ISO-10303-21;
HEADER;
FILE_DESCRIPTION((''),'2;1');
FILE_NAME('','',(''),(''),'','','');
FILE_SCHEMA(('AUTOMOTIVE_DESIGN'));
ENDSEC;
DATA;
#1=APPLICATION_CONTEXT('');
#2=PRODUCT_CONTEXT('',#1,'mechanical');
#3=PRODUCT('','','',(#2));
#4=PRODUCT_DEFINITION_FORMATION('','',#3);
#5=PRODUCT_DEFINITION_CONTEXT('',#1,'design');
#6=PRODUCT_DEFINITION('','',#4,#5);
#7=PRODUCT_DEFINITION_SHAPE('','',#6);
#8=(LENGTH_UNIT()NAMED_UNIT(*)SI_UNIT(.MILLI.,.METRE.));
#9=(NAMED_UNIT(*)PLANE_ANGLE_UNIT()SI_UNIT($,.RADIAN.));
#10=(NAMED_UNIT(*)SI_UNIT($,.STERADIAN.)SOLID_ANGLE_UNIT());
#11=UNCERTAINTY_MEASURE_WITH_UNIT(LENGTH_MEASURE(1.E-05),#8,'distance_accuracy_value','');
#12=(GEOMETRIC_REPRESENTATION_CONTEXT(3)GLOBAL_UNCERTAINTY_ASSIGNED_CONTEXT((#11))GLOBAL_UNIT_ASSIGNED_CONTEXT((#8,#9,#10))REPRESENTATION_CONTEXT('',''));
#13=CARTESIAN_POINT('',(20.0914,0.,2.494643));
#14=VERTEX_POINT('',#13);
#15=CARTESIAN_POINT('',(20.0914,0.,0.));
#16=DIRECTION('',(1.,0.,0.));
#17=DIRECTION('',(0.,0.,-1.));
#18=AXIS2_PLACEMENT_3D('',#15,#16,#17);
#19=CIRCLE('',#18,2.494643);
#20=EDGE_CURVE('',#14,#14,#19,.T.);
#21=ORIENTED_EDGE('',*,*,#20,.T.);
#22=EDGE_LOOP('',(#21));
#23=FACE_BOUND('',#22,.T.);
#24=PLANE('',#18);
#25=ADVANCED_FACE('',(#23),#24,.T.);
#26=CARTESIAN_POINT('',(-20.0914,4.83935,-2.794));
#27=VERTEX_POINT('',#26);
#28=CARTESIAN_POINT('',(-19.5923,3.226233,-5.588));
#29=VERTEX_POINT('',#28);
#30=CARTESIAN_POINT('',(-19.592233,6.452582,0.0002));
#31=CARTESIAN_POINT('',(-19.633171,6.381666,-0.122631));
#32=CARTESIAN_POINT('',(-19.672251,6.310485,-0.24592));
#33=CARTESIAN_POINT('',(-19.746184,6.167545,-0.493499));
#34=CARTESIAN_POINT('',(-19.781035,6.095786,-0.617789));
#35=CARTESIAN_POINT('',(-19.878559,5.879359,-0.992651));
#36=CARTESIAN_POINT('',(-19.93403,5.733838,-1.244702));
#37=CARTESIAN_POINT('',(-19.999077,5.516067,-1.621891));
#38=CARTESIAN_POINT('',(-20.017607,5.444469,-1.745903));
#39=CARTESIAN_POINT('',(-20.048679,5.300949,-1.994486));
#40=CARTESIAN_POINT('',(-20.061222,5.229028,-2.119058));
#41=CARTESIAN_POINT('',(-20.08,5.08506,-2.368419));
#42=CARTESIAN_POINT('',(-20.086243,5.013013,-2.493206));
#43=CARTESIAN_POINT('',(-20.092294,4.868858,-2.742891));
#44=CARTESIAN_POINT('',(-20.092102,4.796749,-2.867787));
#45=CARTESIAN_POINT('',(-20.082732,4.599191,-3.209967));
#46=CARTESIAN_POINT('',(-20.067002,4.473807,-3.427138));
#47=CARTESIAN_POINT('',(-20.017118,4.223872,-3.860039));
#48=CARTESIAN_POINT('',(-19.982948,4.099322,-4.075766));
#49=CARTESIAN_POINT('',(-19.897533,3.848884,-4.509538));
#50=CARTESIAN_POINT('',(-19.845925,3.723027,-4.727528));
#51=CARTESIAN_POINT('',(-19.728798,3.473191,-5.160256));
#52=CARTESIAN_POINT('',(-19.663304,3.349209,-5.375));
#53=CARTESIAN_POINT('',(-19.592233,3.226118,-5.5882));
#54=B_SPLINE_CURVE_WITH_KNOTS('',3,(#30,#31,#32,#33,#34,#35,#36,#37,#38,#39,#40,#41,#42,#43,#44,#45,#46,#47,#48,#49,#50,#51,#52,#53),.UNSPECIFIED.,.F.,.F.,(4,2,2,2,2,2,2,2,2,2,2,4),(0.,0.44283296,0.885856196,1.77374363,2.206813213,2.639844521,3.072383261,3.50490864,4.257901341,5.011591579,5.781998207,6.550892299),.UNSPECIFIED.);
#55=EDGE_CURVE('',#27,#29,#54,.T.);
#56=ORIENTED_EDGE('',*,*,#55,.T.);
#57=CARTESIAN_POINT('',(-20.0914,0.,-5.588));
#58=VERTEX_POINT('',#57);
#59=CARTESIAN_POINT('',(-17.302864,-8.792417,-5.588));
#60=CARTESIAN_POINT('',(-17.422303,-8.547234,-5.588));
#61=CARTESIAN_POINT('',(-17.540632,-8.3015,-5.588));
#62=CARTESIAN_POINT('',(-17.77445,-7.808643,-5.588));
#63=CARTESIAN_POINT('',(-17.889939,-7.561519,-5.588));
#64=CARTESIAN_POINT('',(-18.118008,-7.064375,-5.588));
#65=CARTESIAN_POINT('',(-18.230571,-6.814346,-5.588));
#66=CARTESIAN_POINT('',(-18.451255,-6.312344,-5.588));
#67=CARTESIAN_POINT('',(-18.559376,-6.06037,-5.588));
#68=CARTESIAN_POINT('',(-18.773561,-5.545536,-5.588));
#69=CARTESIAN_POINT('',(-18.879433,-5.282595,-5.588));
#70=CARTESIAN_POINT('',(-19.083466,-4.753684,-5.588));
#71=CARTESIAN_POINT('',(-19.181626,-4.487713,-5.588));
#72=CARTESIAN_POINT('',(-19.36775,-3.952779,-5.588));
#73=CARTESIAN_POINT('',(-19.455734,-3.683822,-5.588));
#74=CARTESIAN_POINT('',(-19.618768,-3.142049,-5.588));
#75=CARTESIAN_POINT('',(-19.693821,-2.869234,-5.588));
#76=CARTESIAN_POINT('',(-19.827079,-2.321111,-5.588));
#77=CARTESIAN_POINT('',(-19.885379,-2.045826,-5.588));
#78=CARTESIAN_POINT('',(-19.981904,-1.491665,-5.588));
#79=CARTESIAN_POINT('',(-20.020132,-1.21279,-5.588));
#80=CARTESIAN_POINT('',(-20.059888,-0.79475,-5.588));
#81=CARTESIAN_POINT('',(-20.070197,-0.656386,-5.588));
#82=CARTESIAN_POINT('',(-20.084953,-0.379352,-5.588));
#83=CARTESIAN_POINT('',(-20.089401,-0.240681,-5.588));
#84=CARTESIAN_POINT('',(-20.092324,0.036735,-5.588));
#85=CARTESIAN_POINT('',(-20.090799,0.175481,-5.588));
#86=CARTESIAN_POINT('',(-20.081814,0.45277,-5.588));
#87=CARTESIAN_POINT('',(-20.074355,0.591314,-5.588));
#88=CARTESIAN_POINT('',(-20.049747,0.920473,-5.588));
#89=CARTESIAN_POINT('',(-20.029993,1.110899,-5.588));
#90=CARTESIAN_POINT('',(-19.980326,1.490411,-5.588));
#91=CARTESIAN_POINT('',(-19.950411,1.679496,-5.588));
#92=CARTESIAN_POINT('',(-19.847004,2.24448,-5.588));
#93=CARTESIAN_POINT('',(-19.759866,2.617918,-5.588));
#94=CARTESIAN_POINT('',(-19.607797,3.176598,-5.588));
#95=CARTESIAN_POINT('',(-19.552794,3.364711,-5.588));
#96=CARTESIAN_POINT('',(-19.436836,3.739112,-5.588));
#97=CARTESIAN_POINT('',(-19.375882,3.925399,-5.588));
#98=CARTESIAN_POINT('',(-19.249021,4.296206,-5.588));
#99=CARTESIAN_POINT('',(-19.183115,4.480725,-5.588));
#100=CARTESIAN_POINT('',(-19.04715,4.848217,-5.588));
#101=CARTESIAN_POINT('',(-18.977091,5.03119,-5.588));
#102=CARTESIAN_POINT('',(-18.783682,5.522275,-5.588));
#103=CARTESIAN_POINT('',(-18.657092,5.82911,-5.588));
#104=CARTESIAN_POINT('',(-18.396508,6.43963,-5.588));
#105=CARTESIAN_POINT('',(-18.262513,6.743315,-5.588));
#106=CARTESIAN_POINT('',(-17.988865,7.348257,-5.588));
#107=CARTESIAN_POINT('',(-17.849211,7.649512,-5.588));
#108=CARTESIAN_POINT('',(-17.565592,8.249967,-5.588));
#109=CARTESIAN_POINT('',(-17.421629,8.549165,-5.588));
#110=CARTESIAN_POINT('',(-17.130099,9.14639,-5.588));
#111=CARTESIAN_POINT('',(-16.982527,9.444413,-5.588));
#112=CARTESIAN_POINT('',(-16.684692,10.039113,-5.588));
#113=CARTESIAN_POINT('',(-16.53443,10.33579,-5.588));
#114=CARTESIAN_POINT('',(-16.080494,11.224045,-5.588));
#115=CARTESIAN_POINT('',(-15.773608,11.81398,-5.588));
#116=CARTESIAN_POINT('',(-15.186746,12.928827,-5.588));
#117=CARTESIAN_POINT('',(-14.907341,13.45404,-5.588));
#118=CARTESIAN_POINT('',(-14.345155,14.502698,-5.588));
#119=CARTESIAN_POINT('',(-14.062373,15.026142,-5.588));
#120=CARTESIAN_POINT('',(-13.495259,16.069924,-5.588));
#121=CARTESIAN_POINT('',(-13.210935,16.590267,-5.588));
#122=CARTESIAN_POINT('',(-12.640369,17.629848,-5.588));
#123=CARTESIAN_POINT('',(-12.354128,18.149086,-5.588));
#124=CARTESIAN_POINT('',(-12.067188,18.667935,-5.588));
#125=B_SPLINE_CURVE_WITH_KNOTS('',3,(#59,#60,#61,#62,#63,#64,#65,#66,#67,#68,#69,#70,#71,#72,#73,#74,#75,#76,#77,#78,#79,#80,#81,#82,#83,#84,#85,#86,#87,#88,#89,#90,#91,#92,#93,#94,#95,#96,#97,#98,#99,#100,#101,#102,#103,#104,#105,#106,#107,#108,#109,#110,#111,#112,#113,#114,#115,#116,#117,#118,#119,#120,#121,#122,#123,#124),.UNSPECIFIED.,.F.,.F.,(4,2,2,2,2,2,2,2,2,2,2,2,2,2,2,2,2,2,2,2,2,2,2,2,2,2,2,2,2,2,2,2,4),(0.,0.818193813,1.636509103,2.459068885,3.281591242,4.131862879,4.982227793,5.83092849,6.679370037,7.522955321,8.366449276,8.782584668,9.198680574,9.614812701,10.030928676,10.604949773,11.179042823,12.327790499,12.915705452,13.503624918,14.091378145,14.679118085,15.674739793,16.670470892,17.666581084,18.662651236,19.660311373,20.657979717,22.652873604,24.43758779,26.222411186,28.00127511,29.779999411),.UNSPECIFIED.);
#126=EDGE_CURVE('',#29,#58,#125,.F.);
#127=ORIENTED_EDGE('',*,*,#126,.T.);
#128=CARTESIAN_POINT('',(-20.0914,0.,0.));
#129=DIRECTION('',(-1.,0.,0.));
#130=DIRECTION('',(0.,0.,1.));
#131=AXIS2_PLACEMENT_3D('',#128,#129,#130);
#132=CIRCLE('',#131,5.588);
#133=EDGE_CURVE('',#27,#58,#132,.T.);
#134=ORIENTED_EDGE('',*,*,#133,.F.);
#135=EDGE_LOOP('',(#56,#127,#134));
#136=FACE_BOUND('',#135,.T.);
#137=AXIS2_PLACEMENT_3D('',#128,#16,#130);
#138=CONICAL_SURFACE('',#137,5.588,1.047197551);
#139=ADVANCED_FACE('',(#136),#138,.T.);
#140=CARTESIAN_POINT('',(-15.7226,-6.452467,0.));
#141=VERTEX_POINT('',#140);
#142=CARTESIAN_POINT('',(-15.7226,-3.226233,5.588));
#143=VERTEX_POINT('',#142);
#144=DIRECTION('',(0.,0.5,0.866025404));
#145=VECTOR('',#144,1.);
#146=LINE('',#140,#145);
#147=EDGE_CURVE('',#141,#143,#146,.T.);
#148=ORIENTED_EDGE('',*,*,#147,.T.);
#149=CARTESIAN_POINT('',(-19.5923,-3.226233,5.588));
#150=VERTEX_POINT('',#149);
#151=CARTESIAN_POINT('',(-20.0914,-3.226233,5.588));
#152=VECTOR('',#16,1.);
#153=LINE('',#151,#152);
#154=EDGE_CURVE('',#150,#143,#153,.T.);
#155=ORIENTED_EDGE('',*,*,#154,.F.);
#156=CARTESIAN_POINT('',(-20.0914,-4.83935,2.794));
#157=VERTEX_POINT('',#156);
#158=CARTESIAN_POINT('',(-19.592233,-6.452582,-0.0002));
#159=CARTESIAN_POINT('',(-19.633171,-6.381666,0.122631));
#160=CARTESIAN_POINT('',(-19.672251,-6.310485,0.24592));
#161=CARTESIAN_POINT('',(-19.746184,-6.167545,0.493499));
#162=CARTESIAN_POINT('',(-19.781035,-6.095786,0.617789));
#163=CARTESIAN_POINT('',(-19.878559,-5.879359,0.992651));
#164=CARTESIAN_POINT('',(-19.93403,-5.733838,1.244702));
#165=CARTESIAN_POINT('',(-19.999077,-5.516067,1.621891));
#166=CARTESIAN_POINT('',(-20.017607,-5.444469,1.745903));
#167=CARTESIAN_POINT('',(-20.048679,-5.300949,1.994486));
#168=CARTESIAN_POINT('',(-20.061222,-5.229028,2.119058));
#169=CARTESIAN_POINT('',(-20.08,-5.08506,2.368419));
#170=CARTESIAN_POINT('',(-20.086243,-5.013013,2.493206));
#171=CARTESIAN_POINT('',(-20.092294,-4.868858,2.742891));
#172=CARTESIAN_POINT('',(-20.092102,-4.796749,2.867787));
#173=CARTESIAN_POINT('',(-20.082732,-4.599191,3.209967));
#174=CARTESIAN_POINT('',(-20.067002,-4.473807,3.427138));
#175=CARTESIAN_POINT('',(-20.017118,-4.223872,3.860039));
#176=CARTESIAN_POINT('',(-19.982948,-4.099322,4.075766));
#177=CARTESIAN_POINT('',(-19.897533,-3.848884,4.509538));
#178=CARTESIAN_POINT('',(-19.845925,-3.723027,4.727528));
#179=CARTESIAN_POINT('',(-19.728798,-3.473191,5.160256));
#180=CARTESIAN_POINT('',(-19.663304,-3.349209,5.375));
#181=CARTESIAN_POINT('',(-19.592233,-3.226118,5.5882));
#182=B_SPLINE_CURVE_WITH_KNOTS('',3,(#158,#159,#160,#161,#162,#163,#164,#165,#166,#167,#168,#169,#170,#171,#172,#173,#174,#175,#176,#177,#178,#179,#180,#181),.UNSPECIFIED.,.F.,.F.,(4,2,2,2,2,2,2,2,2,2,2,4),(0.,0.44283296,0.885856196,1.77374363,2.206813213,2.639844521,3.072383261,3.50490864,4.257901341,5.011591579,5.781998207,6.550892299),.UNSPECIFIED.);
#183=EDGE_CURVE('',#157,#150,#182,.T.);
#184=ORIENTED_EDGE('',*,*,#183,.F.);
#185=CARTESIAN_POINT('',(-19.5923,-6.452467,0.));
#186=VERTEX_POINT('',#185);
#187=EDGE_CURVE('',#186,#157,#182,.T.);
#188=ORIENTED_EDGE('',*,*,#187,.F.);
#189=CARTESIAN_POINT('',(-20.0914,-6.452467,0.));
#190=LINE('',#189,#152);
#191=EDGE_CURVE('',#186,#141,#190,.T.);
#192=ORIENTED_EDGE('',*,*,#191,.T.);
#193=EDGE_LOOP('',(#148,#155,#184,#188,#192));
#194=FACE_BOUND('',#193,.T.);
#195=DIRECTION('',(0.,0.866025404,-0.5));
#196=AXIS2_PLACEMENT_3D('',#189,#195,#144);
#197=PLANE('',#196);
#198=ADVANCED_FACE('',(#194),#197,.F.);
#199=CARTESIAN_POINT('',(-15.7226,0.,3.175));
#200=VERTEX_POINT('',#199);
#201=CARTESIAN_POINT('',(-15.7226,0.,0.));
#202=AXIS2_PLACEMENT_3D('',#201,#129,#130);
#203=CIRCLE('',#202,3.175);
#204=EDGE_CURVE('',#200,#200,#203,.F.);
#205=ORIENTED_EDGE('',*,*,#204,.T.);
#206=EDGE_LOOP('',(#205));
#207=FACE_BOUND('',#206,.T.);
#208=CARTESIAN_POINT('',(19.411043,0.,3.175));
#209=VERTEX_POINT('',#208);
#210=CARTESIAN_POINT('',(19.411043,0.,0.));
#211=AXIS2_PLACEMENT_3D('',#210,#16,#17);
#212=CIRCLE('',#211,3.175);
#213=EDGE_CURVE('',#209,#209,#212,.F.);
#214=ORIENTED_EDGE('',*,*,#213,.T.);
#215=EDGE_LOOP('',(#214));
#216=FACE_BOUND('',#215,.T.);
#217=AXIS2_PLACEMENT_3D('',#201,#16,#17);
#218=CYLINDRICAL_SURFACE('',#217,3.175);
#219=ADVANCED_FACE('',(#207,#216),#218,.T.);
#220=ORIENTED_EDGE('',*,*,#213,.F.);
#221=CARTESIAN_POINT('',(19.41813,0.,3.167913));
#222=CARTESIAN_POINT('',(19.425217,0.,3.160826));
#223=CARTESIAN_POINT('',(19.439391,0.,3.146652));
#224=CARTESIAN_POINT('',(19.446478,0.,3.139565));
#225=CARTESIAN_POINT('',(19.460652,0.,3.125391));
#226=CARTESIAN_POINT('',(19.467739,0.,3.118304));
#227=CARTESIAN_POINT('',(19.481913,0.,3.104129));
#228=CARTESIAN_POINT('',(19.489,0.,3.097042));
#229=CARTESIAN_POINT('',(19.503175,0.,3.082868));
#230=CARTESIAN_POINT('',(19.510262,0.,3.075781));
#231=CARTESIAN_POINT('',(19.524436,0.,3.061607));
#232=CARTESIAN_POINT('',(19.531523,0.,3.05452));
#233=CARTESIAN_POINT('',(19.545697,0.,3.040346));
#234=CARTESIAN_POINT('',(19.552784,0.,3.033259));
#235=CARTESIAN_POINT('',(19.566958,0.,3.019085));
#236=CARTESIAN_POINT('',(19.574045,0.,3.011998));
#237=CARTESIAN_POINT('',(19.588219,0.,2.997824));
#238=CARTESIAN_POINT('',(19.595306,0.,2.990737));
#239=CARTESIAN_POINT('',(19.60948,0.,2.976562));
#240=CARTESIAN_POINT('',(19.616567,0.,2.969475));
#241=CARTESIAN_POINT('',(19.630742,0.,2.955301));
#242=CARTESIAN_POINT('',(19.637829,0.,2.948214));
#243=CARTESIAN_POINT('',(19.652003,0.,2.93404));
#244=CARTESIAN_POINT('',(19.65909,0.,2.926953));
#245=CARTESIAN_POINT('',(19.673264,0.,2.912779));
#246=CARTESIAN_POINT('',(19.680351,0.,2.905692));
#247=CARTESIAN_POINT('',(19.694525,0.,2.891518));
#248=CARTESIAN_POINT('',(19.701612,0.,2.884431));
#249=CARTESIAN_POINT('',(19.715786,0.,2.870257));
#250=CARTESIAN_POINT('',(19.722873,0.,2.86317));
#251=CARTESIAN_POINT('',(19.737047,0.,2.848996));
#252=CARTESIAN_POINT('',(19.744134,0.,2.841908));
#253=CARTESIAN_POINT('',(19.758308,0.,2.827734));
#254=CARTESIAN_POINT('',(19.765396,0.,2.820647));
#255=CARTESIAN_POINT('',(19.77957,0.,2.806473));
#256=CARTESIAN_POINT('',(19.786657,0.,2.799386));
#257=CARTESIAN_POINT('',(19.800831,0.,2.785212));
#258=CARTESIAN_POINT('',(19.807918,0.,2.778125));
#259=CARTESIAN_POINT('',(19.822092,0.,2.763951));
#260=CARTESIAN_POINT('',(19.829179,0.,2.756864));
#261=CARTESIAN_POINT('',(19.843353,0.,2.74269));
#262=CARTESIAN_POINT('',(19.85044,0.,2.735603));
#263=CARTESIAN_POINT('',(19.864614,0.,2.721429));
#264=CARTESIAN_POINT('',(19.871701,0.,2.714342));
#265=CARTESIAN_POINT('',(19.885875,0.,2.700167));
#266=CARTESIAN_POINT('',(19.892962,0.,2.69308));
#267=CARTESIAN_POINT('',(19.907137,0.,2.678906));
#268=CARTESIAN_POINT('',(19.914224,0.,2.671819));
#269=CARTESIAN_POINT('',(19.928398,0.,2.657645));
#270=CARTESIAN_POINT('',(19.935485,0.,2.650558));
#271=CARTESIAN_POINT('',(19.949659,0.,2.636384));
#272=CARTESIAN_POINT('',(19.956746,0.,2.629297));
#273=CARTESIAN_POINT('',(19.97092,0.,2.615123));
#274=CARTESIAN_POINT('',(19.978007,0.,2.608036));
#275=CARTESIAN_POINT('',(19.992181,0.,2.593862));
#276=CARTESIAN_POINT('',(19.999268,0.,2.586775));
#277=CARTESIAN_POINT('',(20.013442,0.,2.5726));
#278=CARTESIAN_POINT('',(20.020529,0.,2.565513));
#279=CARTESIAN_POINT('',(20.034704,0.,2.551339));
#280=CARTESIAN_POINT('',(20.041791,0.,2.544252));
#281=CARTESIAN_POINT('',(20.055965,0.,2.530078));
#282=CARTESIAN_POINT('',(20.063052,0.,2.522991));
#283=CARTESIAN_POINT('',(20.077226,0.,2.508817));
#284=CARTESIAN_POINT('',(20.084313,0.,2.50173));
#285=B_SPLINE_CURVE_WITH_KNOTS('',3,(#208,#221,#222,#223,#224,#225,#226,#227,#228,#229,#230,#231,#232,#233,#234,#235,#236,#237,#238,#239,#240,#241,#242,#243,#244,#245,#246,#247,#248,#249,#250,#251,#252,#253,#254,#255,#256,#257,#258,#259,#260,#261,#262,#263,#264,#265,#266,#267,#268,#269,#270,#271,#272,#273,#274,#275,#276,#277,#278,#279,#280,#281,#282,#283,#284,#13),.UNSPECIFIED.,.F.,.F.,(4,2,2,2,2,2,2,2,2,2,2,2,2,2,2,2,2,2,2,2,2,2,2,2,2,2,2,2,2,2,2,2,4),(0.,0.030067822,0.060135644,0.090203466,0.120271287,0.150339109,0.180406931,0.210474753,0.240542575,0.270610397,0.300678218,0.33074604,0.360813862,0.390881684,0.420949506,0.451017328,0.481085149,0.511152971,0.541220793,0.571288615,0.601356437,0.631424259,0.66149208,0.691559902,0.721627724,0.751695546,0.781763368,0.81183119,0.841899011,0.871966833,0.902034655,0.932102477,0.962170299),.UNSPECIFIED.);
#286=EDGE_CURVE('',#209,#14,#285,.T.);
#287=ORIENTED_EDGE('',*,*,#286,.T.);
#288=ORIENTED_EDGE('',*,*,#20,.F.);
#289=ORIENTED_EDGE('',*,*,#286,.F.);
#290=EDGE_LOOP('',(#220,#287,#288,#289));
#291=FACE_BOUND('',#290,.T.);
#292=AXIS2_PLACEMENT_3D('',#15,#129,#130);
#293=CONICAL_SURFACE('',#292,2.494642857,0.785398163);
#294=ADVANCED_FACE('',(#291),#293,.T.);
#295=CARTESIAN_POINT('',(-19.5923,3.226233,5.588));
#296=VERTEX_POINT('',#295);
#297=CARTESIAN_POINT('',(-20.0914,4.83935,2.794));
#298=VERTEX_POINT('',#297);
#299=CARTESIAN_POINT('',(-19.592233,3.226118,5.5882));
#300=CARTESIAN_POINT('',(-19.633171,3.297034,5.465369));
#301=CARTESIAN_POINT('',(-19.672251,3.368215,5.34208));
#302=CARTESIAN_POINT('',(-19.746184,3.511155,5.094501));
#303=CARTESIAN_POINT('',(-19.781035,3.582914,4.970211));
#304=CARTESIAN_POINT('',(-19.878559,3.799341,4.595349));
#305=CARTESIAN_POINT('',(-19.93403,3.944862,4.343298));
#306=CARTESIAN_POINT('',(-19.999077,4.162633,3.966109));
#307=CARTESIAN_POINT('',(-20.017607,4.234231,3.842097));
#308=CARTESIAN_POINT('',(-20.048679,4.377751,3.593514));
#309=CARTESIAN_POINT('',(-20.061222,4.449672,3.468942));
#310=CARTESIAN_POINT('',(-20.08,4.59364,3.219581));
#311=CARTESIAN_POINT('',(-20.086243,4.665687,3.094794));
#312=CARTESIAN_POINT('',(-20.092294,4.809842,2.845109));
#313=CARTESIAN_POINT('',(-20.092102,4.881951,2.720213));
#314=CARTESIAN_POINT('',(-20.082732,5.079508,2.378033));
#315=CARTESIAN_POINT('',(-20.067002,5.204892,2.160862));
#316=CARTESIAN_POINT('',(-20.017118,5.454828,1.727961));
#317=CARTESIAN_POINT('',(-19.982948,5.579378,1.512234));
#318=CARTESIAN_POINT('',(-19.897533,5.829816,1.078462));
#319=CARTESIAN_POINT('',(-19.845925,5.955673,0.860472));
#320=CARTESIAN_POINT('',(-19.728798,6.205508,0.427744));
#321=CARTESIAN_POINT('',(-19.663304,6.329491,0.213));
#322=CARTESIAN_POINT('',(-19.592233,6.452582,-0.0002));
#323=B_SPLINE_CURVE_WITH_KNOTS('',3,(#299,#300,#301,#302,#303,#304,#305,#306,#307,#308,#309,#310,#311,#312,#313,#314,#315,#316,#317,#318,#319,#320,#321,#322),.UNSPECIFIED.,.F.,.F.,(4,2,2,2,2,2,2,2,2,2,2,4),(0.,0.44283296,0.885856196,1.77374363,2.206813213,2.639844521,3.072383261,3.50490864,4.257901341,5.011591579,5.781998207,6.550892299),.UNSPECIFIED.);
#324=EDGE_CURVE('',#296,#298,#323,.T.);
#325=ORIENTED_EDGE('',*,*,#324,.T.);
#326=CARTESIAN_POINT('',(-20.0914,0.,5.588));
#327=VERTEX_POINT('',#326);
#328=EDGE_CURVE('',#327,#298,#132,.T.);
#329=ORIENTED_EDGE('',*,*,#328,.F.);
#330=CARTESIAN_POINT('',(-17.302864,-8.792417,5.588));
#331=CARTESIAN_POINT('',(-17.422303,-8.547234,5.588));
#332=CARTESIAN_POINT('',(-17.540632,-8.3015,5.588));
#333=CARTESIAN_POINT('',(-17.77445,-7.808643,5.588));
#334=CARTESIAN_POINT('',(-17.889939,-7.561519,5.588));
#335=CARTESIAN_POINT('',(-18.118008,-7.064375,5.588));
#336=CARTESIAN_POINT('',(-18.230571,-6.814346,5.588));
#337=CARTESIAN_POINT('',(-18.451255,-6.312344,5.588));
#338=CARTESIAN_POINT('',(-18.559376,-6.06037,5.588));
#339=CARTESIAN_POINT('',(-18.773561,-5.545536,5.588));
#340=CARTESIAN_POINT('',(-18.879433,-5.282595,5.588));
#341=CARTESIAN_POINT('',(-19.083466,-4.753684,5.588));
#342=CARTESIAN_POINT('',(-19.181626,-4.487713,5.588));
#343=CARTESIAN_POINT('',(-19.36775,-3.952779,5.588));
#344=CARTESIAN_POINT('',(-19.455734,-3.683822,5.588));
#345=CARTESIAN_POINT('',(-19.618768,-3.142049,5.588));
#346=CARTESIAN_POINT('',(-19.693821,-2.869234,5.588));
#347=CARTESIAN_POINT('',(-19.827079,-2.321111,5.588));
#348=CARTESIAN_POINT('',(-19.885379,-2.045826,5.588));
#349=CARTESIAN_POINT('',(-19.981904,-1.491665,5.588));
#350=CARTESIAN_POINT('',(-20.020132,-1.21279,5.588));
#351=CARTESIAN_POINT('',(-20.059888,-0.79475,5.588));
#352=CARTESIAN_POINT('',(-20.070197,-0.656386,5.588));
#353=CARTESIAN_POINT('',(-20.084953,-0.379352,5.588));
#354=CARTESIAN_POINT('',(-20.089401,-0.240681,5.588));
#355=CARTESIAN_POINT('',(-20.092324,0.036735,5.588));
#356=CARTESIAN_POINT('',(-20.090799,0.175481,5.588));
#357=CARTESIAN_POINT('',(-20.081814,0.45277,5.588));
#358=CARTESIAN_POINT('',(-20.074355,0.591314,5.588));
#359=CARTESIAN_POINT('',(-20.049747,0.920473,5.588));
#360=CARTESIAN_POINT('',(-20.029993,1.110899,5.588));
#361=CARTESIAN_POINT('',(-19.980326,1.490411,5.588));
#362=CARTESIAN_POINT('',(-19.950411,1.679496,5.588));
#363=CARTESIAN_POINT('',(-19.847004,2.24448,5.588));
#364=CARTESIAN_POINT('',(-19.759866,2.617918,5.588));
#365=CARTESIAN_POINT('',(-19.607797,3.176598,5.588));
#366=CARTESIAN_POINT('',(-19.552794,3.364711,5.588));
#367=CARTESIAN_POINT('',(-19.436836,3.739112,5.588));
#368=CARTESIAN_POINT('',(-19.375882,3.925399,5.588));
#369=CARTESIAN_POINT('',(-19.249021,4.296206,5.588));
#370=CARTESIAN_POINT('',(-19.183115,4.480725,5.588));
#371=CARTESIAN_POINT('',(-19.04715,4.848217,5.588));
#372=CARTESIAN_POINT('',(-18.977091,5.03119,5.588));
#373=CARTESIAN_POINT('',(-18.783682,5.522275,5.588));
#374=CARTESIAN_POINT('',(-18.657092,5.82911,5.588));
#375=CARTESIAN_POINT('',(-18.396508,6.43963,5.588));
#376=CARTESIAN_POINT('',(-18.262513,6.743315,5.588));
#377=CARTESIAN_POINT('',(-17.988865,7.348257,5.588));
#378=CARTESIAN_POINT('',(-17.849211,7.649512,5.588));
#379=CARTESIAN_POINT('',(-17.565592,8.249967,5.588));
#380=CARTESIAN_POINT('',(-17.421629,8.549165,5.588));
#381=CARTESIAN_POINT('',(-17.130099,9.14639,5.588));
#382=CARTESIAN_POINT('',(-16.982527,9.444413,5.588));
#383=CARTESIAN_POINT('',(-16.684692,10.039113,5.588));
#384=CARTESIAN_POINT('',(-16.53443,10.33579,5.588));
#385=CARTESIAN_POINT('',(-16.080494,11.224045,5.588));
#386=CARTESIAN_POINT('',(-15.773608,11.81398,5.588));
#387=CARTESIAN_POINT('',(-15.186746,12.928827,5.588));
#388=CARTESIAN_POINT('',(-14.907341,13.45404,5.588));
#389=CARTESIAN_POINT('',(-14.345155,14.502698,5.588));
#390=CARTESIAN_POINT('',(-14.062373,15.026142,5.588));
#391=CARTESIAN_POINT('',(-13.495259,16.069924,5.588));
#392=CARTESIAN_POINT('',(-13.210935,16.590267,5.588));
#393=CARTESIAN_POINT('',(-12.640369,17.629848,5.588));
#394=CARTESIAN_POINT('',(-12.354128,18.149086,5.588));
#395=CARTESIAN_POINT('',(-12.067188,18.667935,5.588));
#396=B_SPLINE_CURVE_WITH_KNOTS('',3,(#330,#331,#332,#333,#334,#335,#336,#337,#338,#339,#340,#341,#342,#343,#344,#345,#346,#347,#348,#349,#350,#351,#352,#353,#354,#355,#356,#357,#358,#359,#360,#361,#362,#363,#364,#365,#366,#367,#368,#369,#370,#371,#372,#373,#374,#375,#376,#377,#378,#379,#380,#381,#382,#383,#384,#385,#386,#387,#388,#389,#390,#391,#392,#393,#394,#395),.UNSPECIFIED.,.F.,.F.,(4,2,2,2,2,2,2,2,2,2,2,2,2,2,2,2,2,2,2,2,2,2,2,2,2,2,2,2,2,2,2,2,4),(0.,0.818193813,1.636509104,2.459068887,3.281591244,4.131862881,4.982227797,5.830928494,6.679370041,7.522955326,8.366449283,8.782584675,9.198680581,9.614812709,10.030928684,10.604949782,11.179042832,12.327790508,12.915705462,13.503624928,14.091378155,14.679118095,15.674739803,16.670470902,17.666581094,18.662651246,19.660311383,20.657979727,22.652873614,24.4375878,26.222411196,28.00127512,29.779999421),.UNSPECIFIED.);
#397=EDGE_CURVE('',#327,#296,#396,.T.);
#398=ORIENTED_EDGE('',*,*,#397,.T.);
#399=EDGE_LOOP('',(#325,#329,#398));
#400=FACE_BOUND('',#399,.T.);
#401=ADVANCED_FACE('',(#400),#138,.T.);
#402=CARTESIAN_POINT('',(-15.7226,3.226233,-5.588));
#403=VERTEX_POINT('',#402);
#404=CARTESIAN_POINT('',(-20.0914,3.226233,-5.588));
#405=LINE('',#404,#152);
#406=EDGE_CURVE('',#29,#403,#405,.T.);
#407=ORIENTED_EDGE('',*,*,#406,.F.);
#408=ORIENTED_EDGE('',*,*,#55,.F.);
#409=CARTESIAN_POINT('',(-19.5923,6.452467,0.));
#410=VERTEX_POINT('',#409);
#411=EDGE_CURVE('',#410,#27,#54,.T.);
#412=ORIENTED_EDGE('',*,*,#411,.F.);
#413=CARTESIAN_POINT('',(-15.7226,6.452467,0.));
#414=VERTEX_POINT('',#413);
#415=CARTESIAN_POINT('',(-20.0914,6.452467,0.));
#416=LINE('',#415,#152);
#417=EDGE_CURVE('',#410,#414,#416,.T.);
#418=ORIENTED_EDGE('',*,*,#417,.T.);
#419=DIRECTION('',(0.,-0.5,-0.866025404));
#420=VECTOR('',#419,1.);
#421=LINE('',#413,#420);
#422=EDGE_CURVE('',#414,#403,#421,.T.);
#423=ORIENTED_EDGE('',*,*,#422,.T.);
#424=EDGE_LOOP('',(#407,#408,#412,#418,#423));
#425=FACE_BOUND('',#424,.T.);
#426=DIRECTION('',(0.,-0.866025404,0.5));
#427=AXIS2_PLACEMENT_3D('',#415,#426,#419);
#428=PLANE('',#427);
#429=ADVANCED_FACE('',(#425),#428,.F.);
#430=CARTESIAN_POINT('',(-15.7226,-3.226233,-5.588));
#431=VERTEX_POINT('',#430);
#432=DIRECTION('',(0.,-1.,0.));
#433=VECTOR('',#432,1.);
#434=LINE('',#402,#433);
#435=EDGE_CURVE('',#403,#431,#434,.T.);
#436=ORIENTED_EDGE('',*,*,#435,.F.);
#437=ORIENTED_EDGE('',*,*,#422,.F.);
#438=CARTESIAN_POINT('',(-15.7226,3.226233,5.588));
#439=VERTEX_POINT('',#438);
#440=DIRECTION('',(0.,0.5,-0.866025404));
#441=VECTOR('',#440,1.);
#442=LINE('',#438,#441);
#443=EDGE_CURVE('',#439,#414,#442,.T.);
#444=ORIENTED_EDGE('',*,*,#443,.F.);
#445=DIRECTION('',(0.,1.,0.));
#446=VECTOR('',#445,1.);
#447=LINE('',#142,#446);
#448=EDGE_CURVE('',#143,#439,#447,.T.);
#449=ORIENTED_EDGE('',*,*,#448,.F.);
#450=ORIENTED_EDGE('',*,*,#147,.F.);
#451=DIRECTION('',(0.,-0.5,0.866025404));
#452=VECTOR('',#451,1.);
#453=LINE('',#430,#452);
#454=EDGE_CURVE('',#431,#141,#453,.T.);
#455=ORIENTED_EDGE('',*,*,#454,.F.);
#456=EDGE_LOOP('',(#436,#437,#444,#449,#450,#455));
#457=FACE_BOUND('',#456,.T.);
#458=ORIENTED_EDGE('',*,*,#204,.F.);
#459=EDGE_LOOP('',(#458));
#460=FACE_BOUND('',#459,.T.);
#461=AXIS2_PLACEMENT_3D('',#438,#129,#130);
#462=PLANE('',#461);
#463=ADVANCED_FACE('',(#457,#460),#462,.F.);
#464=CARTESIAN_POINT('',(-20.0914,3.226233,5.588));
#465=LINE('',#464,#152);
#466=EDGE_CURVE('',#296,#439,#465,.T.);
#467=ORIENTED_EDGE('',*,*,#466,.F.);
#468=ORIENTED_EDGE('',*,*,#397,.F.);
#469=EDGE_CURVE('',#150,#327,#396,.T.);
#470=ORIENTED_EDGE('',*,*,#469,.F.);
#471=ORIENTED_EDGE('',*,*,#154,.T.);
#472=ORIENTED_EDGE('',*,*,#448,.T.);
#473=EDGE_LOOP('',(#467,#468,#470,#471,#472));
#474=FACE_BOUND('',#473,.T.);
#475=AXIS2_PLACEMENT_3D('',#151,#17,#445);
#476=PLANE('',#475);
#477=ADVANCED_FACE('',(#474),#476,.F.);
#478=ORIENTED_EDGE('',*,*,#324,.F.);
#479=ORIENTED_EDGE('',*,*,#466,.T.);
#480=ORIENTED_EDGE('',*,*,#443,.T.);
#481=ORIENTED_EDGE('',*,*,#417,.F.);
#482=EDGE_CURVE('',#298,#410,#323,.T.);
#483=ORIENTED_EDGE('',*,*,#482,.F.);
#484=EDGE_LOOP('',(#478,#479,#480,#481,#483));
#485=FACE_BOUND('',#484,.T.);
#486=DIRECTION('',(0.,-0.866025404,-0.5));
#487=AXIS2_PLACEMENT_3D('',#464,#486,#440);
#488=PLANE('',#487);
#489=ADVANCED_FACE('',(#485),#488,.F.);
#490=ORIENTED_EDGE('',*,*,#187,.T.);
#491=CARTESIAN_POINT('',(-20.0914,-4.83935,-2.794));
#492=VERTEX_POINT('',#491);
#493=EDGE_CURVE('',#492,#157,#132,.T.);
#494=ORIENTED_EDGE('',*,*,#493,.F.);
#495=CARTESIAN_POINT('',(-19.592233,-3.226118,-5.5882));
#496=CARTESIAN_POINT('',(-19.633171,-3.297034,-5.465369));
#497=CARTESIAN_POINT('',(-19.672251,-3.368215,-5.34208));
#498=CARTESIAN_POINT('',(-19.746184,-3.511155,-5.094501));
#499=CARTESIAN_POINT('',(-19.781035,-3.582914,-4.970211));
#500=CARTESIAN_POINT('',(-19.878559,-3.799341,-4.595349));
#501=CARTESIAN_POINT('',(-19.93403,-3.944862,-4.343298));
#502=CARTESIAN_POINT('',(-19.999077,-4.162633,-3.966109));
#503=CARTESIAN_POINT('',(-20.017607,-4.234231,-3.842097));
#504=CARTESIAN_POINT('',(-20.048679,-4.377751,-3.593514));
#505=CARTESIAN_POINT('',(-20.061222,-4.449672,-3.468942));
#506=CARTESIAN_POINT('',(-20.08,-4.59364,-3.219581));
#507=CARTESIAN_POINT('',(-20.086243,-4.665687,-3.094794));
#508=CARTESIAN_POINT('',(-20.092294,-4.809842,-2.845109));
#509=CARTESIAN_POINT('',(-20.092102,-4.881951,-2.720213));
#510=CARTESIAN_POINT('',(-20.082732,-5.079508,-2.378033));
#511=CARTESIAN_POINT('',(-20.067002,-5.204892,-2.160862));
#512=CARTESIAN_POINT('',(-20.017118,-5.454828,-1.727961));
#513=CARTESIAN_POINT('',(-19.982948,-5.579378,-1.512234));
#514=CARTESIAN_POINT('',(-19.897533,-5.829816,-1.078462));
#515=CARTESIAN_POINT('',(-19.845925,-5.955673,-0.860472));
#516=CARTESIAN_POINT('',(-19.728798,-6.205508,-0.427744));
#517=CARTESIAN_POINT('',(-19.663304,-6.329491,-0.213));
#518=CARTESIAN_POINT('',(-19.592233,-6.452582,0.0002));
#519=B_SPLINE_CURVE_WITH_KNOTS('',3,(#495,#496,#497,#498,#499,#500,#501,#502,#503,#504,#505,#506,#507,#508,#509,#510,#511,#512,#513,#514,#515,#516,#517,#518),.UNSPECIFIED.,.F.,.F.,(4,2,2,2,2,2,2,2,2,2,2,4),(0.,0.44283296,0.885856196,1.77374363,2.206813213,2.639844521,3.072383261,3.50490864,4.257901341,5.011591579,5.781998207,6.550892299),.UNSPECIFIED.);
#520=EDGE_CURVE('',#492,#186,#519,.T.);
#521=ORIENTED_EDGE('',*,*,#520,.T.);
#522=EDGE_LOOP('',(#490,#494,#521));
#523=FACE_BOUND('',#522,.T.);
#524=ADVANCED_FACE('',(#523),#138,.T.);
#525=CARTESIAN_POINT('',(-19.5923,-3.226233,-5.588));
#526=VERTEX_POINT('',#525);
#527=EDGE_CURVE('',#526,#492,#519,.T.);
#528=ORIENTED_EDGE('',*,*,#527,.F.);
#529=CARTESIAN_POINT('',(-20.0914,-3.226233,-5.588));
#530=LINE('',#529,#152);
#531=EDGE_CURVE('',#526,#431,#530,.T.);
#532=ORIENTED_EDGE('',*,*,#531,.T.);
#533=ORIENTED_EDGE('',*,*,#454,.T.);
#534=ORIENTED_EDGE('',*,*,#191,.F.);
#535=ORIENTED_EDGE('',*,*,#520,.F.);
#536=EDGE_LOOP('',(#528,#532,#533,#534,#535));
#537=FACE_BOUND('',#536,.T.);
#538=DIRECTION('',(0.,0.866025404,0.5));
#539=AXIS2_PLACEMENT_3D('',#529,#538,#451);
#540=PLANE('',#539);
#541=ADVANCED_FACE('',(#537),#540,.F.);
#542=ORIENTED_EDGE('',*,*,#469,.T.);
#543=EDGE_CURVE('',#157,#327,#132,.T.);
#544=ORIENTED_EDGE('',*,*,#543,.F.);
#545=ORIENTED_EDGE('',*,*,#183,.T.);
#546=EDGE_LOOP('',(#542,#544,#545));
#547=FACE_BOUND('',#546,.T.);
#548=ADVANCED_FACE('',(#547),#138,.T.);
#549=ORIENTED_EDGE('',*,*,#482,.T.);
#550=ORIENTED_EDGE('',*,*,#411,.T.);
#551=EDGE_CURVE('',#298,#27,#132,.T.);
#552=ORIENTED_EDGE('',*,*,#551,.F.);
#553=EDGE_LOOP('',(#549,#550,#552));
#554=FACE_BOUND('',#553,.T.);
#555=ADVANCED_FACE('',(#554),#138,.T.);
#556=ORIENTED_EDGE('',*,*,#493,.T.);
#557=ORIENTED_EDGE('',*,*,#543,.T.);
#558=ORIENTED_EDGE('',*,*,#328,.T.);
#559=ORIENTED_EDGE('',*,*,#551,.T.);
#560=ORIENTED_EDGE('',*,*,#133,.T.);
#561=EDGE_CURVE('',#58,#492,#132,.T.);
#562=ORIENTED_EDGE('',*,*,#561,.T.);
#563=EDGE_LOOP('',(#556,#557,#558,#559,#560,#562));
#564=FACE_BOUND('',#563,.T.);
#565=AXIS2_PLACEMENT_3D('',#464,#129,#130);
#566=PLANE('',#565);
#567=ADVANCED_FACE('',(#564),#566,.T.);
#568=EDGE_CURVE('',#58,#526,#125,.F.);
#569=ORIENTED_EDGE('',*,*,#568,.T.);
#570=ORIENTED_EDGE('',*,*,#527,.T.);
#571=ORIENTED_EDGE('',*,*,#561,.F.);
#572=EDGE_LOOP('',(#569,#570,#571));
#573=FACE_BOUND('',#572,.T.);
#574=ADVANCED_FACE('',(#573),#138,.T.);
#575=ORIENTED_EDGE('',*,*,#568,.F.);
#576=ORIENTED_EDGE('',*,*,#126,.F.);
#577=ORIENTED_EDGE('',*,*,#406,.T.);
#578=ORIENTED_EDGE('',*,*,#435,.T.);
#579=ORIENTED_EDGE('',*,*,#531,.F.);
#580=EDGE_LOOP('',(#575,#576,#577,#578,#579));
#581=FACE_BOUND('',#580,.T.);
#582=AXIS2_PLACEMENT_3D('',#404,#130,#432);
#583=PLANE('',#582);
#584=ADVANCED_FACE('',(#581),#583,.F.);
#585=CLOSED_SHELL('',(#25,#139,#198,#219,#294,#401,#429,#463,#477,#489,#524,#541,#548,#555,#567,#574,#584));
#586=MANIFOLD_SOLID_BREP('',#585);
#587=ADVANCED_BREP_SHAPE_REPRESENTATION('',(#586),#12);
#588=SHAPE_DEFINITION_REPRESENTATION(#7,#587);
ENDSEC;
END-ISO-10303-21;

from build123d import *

# Parameters (mm, degrees)
SKETCH5_R           = 3.175
BOSS_EXTRUDE3_DEPTH = 35.814
CHAMFER1_SIZE       = 0.680357143
BOSS_EXTRUDE4_DEPTH = 4.3688
SKETCH8_OUTSIDE_W   = 167.676
SKETCH8_OUTSIDE_H   = 169.404
SKETCH8_OUTSIDE_R   = 5.588
CUT_EXTRUDE3_DEPTH  = 42.079404635
CUT_EXTRUDE3_DRAFT  = -60


with BuildPart() as part:
    # Sketch5 → Boss-Extrude3 (new body)
    with BuildSketch(Plane(origin=(20.0914, 0, 0), x_dir=(0, 0, -1), z_dir=(1, 0, 0))):
        Circle(SKETCH5_R)
    extrude(amount=-BOSS_EXTRUDE3_DEPTH)

    # Chamfer1
    chamfer1_edges = [part.edges().sort_by_distance(p)[0] for p in [
        (20.0914, 0, 3.175),
    ]]
    chamfer(chamfer1_edges, length=CHAMFER1_SIZE)

    # Sketch6 → Boss-Extrude4 (add)
    with BuildSketch(Plane.ZY.offset(15.7226)):
        Polygon((5.588, 3.226233304), (0, 6.452466608), (-5.588, 3.226233304), (-5.588, -3.226233304), (0, -6.452466608), (5.588, -3.226233304), align=None)
    extrude(amount=BOSS_EXTRUDE4_DEPTH)


with BuildPart() as cut_extrude3_tool:
    # Sketch8 outside → Cut-Extrude3 (with draft: the straight prism first)
    with BuildSketch(Plane.ZY.offset(20.0914)):
        Rectangle(SKETCH8_OUTSIDE_W, SKETCH8_OUTSIDE_H)
        Circle(SKETCH8_OUTSIDE_R, mode=Mode.SUBTRACT)
    extrude(amount=-CUT_EXTRUDE3_DEPTH)
    # Cut-Extrude3: the draft: its side faces are tilted about the plane it starts from
    cut_extrude3_sides = [cut_extrude3_tool.faces().sort_by_distance(p)[0] for p in [
        (0.948302318, -84.702, 0),
        (0.948302318, 0, 83.838),
        (0.948302318, 84.702, 0),
        (0.948302318, 0, -83.838),
        (0.948302318, 0, -5.588),
    ]]
    draft(cut_extrude3_sides, Plane.ZY.offset(20.0914), CUT_EXTRUDE3_DRAFT)


with BuildPart() as part_1:
    add(part.part)

    # Cut-Extrude3: cut by cut_extrude3_tool
    add(cut_extrude3_tool.part, mode=Mode.SUBTRACT)


solid = part_1.part
